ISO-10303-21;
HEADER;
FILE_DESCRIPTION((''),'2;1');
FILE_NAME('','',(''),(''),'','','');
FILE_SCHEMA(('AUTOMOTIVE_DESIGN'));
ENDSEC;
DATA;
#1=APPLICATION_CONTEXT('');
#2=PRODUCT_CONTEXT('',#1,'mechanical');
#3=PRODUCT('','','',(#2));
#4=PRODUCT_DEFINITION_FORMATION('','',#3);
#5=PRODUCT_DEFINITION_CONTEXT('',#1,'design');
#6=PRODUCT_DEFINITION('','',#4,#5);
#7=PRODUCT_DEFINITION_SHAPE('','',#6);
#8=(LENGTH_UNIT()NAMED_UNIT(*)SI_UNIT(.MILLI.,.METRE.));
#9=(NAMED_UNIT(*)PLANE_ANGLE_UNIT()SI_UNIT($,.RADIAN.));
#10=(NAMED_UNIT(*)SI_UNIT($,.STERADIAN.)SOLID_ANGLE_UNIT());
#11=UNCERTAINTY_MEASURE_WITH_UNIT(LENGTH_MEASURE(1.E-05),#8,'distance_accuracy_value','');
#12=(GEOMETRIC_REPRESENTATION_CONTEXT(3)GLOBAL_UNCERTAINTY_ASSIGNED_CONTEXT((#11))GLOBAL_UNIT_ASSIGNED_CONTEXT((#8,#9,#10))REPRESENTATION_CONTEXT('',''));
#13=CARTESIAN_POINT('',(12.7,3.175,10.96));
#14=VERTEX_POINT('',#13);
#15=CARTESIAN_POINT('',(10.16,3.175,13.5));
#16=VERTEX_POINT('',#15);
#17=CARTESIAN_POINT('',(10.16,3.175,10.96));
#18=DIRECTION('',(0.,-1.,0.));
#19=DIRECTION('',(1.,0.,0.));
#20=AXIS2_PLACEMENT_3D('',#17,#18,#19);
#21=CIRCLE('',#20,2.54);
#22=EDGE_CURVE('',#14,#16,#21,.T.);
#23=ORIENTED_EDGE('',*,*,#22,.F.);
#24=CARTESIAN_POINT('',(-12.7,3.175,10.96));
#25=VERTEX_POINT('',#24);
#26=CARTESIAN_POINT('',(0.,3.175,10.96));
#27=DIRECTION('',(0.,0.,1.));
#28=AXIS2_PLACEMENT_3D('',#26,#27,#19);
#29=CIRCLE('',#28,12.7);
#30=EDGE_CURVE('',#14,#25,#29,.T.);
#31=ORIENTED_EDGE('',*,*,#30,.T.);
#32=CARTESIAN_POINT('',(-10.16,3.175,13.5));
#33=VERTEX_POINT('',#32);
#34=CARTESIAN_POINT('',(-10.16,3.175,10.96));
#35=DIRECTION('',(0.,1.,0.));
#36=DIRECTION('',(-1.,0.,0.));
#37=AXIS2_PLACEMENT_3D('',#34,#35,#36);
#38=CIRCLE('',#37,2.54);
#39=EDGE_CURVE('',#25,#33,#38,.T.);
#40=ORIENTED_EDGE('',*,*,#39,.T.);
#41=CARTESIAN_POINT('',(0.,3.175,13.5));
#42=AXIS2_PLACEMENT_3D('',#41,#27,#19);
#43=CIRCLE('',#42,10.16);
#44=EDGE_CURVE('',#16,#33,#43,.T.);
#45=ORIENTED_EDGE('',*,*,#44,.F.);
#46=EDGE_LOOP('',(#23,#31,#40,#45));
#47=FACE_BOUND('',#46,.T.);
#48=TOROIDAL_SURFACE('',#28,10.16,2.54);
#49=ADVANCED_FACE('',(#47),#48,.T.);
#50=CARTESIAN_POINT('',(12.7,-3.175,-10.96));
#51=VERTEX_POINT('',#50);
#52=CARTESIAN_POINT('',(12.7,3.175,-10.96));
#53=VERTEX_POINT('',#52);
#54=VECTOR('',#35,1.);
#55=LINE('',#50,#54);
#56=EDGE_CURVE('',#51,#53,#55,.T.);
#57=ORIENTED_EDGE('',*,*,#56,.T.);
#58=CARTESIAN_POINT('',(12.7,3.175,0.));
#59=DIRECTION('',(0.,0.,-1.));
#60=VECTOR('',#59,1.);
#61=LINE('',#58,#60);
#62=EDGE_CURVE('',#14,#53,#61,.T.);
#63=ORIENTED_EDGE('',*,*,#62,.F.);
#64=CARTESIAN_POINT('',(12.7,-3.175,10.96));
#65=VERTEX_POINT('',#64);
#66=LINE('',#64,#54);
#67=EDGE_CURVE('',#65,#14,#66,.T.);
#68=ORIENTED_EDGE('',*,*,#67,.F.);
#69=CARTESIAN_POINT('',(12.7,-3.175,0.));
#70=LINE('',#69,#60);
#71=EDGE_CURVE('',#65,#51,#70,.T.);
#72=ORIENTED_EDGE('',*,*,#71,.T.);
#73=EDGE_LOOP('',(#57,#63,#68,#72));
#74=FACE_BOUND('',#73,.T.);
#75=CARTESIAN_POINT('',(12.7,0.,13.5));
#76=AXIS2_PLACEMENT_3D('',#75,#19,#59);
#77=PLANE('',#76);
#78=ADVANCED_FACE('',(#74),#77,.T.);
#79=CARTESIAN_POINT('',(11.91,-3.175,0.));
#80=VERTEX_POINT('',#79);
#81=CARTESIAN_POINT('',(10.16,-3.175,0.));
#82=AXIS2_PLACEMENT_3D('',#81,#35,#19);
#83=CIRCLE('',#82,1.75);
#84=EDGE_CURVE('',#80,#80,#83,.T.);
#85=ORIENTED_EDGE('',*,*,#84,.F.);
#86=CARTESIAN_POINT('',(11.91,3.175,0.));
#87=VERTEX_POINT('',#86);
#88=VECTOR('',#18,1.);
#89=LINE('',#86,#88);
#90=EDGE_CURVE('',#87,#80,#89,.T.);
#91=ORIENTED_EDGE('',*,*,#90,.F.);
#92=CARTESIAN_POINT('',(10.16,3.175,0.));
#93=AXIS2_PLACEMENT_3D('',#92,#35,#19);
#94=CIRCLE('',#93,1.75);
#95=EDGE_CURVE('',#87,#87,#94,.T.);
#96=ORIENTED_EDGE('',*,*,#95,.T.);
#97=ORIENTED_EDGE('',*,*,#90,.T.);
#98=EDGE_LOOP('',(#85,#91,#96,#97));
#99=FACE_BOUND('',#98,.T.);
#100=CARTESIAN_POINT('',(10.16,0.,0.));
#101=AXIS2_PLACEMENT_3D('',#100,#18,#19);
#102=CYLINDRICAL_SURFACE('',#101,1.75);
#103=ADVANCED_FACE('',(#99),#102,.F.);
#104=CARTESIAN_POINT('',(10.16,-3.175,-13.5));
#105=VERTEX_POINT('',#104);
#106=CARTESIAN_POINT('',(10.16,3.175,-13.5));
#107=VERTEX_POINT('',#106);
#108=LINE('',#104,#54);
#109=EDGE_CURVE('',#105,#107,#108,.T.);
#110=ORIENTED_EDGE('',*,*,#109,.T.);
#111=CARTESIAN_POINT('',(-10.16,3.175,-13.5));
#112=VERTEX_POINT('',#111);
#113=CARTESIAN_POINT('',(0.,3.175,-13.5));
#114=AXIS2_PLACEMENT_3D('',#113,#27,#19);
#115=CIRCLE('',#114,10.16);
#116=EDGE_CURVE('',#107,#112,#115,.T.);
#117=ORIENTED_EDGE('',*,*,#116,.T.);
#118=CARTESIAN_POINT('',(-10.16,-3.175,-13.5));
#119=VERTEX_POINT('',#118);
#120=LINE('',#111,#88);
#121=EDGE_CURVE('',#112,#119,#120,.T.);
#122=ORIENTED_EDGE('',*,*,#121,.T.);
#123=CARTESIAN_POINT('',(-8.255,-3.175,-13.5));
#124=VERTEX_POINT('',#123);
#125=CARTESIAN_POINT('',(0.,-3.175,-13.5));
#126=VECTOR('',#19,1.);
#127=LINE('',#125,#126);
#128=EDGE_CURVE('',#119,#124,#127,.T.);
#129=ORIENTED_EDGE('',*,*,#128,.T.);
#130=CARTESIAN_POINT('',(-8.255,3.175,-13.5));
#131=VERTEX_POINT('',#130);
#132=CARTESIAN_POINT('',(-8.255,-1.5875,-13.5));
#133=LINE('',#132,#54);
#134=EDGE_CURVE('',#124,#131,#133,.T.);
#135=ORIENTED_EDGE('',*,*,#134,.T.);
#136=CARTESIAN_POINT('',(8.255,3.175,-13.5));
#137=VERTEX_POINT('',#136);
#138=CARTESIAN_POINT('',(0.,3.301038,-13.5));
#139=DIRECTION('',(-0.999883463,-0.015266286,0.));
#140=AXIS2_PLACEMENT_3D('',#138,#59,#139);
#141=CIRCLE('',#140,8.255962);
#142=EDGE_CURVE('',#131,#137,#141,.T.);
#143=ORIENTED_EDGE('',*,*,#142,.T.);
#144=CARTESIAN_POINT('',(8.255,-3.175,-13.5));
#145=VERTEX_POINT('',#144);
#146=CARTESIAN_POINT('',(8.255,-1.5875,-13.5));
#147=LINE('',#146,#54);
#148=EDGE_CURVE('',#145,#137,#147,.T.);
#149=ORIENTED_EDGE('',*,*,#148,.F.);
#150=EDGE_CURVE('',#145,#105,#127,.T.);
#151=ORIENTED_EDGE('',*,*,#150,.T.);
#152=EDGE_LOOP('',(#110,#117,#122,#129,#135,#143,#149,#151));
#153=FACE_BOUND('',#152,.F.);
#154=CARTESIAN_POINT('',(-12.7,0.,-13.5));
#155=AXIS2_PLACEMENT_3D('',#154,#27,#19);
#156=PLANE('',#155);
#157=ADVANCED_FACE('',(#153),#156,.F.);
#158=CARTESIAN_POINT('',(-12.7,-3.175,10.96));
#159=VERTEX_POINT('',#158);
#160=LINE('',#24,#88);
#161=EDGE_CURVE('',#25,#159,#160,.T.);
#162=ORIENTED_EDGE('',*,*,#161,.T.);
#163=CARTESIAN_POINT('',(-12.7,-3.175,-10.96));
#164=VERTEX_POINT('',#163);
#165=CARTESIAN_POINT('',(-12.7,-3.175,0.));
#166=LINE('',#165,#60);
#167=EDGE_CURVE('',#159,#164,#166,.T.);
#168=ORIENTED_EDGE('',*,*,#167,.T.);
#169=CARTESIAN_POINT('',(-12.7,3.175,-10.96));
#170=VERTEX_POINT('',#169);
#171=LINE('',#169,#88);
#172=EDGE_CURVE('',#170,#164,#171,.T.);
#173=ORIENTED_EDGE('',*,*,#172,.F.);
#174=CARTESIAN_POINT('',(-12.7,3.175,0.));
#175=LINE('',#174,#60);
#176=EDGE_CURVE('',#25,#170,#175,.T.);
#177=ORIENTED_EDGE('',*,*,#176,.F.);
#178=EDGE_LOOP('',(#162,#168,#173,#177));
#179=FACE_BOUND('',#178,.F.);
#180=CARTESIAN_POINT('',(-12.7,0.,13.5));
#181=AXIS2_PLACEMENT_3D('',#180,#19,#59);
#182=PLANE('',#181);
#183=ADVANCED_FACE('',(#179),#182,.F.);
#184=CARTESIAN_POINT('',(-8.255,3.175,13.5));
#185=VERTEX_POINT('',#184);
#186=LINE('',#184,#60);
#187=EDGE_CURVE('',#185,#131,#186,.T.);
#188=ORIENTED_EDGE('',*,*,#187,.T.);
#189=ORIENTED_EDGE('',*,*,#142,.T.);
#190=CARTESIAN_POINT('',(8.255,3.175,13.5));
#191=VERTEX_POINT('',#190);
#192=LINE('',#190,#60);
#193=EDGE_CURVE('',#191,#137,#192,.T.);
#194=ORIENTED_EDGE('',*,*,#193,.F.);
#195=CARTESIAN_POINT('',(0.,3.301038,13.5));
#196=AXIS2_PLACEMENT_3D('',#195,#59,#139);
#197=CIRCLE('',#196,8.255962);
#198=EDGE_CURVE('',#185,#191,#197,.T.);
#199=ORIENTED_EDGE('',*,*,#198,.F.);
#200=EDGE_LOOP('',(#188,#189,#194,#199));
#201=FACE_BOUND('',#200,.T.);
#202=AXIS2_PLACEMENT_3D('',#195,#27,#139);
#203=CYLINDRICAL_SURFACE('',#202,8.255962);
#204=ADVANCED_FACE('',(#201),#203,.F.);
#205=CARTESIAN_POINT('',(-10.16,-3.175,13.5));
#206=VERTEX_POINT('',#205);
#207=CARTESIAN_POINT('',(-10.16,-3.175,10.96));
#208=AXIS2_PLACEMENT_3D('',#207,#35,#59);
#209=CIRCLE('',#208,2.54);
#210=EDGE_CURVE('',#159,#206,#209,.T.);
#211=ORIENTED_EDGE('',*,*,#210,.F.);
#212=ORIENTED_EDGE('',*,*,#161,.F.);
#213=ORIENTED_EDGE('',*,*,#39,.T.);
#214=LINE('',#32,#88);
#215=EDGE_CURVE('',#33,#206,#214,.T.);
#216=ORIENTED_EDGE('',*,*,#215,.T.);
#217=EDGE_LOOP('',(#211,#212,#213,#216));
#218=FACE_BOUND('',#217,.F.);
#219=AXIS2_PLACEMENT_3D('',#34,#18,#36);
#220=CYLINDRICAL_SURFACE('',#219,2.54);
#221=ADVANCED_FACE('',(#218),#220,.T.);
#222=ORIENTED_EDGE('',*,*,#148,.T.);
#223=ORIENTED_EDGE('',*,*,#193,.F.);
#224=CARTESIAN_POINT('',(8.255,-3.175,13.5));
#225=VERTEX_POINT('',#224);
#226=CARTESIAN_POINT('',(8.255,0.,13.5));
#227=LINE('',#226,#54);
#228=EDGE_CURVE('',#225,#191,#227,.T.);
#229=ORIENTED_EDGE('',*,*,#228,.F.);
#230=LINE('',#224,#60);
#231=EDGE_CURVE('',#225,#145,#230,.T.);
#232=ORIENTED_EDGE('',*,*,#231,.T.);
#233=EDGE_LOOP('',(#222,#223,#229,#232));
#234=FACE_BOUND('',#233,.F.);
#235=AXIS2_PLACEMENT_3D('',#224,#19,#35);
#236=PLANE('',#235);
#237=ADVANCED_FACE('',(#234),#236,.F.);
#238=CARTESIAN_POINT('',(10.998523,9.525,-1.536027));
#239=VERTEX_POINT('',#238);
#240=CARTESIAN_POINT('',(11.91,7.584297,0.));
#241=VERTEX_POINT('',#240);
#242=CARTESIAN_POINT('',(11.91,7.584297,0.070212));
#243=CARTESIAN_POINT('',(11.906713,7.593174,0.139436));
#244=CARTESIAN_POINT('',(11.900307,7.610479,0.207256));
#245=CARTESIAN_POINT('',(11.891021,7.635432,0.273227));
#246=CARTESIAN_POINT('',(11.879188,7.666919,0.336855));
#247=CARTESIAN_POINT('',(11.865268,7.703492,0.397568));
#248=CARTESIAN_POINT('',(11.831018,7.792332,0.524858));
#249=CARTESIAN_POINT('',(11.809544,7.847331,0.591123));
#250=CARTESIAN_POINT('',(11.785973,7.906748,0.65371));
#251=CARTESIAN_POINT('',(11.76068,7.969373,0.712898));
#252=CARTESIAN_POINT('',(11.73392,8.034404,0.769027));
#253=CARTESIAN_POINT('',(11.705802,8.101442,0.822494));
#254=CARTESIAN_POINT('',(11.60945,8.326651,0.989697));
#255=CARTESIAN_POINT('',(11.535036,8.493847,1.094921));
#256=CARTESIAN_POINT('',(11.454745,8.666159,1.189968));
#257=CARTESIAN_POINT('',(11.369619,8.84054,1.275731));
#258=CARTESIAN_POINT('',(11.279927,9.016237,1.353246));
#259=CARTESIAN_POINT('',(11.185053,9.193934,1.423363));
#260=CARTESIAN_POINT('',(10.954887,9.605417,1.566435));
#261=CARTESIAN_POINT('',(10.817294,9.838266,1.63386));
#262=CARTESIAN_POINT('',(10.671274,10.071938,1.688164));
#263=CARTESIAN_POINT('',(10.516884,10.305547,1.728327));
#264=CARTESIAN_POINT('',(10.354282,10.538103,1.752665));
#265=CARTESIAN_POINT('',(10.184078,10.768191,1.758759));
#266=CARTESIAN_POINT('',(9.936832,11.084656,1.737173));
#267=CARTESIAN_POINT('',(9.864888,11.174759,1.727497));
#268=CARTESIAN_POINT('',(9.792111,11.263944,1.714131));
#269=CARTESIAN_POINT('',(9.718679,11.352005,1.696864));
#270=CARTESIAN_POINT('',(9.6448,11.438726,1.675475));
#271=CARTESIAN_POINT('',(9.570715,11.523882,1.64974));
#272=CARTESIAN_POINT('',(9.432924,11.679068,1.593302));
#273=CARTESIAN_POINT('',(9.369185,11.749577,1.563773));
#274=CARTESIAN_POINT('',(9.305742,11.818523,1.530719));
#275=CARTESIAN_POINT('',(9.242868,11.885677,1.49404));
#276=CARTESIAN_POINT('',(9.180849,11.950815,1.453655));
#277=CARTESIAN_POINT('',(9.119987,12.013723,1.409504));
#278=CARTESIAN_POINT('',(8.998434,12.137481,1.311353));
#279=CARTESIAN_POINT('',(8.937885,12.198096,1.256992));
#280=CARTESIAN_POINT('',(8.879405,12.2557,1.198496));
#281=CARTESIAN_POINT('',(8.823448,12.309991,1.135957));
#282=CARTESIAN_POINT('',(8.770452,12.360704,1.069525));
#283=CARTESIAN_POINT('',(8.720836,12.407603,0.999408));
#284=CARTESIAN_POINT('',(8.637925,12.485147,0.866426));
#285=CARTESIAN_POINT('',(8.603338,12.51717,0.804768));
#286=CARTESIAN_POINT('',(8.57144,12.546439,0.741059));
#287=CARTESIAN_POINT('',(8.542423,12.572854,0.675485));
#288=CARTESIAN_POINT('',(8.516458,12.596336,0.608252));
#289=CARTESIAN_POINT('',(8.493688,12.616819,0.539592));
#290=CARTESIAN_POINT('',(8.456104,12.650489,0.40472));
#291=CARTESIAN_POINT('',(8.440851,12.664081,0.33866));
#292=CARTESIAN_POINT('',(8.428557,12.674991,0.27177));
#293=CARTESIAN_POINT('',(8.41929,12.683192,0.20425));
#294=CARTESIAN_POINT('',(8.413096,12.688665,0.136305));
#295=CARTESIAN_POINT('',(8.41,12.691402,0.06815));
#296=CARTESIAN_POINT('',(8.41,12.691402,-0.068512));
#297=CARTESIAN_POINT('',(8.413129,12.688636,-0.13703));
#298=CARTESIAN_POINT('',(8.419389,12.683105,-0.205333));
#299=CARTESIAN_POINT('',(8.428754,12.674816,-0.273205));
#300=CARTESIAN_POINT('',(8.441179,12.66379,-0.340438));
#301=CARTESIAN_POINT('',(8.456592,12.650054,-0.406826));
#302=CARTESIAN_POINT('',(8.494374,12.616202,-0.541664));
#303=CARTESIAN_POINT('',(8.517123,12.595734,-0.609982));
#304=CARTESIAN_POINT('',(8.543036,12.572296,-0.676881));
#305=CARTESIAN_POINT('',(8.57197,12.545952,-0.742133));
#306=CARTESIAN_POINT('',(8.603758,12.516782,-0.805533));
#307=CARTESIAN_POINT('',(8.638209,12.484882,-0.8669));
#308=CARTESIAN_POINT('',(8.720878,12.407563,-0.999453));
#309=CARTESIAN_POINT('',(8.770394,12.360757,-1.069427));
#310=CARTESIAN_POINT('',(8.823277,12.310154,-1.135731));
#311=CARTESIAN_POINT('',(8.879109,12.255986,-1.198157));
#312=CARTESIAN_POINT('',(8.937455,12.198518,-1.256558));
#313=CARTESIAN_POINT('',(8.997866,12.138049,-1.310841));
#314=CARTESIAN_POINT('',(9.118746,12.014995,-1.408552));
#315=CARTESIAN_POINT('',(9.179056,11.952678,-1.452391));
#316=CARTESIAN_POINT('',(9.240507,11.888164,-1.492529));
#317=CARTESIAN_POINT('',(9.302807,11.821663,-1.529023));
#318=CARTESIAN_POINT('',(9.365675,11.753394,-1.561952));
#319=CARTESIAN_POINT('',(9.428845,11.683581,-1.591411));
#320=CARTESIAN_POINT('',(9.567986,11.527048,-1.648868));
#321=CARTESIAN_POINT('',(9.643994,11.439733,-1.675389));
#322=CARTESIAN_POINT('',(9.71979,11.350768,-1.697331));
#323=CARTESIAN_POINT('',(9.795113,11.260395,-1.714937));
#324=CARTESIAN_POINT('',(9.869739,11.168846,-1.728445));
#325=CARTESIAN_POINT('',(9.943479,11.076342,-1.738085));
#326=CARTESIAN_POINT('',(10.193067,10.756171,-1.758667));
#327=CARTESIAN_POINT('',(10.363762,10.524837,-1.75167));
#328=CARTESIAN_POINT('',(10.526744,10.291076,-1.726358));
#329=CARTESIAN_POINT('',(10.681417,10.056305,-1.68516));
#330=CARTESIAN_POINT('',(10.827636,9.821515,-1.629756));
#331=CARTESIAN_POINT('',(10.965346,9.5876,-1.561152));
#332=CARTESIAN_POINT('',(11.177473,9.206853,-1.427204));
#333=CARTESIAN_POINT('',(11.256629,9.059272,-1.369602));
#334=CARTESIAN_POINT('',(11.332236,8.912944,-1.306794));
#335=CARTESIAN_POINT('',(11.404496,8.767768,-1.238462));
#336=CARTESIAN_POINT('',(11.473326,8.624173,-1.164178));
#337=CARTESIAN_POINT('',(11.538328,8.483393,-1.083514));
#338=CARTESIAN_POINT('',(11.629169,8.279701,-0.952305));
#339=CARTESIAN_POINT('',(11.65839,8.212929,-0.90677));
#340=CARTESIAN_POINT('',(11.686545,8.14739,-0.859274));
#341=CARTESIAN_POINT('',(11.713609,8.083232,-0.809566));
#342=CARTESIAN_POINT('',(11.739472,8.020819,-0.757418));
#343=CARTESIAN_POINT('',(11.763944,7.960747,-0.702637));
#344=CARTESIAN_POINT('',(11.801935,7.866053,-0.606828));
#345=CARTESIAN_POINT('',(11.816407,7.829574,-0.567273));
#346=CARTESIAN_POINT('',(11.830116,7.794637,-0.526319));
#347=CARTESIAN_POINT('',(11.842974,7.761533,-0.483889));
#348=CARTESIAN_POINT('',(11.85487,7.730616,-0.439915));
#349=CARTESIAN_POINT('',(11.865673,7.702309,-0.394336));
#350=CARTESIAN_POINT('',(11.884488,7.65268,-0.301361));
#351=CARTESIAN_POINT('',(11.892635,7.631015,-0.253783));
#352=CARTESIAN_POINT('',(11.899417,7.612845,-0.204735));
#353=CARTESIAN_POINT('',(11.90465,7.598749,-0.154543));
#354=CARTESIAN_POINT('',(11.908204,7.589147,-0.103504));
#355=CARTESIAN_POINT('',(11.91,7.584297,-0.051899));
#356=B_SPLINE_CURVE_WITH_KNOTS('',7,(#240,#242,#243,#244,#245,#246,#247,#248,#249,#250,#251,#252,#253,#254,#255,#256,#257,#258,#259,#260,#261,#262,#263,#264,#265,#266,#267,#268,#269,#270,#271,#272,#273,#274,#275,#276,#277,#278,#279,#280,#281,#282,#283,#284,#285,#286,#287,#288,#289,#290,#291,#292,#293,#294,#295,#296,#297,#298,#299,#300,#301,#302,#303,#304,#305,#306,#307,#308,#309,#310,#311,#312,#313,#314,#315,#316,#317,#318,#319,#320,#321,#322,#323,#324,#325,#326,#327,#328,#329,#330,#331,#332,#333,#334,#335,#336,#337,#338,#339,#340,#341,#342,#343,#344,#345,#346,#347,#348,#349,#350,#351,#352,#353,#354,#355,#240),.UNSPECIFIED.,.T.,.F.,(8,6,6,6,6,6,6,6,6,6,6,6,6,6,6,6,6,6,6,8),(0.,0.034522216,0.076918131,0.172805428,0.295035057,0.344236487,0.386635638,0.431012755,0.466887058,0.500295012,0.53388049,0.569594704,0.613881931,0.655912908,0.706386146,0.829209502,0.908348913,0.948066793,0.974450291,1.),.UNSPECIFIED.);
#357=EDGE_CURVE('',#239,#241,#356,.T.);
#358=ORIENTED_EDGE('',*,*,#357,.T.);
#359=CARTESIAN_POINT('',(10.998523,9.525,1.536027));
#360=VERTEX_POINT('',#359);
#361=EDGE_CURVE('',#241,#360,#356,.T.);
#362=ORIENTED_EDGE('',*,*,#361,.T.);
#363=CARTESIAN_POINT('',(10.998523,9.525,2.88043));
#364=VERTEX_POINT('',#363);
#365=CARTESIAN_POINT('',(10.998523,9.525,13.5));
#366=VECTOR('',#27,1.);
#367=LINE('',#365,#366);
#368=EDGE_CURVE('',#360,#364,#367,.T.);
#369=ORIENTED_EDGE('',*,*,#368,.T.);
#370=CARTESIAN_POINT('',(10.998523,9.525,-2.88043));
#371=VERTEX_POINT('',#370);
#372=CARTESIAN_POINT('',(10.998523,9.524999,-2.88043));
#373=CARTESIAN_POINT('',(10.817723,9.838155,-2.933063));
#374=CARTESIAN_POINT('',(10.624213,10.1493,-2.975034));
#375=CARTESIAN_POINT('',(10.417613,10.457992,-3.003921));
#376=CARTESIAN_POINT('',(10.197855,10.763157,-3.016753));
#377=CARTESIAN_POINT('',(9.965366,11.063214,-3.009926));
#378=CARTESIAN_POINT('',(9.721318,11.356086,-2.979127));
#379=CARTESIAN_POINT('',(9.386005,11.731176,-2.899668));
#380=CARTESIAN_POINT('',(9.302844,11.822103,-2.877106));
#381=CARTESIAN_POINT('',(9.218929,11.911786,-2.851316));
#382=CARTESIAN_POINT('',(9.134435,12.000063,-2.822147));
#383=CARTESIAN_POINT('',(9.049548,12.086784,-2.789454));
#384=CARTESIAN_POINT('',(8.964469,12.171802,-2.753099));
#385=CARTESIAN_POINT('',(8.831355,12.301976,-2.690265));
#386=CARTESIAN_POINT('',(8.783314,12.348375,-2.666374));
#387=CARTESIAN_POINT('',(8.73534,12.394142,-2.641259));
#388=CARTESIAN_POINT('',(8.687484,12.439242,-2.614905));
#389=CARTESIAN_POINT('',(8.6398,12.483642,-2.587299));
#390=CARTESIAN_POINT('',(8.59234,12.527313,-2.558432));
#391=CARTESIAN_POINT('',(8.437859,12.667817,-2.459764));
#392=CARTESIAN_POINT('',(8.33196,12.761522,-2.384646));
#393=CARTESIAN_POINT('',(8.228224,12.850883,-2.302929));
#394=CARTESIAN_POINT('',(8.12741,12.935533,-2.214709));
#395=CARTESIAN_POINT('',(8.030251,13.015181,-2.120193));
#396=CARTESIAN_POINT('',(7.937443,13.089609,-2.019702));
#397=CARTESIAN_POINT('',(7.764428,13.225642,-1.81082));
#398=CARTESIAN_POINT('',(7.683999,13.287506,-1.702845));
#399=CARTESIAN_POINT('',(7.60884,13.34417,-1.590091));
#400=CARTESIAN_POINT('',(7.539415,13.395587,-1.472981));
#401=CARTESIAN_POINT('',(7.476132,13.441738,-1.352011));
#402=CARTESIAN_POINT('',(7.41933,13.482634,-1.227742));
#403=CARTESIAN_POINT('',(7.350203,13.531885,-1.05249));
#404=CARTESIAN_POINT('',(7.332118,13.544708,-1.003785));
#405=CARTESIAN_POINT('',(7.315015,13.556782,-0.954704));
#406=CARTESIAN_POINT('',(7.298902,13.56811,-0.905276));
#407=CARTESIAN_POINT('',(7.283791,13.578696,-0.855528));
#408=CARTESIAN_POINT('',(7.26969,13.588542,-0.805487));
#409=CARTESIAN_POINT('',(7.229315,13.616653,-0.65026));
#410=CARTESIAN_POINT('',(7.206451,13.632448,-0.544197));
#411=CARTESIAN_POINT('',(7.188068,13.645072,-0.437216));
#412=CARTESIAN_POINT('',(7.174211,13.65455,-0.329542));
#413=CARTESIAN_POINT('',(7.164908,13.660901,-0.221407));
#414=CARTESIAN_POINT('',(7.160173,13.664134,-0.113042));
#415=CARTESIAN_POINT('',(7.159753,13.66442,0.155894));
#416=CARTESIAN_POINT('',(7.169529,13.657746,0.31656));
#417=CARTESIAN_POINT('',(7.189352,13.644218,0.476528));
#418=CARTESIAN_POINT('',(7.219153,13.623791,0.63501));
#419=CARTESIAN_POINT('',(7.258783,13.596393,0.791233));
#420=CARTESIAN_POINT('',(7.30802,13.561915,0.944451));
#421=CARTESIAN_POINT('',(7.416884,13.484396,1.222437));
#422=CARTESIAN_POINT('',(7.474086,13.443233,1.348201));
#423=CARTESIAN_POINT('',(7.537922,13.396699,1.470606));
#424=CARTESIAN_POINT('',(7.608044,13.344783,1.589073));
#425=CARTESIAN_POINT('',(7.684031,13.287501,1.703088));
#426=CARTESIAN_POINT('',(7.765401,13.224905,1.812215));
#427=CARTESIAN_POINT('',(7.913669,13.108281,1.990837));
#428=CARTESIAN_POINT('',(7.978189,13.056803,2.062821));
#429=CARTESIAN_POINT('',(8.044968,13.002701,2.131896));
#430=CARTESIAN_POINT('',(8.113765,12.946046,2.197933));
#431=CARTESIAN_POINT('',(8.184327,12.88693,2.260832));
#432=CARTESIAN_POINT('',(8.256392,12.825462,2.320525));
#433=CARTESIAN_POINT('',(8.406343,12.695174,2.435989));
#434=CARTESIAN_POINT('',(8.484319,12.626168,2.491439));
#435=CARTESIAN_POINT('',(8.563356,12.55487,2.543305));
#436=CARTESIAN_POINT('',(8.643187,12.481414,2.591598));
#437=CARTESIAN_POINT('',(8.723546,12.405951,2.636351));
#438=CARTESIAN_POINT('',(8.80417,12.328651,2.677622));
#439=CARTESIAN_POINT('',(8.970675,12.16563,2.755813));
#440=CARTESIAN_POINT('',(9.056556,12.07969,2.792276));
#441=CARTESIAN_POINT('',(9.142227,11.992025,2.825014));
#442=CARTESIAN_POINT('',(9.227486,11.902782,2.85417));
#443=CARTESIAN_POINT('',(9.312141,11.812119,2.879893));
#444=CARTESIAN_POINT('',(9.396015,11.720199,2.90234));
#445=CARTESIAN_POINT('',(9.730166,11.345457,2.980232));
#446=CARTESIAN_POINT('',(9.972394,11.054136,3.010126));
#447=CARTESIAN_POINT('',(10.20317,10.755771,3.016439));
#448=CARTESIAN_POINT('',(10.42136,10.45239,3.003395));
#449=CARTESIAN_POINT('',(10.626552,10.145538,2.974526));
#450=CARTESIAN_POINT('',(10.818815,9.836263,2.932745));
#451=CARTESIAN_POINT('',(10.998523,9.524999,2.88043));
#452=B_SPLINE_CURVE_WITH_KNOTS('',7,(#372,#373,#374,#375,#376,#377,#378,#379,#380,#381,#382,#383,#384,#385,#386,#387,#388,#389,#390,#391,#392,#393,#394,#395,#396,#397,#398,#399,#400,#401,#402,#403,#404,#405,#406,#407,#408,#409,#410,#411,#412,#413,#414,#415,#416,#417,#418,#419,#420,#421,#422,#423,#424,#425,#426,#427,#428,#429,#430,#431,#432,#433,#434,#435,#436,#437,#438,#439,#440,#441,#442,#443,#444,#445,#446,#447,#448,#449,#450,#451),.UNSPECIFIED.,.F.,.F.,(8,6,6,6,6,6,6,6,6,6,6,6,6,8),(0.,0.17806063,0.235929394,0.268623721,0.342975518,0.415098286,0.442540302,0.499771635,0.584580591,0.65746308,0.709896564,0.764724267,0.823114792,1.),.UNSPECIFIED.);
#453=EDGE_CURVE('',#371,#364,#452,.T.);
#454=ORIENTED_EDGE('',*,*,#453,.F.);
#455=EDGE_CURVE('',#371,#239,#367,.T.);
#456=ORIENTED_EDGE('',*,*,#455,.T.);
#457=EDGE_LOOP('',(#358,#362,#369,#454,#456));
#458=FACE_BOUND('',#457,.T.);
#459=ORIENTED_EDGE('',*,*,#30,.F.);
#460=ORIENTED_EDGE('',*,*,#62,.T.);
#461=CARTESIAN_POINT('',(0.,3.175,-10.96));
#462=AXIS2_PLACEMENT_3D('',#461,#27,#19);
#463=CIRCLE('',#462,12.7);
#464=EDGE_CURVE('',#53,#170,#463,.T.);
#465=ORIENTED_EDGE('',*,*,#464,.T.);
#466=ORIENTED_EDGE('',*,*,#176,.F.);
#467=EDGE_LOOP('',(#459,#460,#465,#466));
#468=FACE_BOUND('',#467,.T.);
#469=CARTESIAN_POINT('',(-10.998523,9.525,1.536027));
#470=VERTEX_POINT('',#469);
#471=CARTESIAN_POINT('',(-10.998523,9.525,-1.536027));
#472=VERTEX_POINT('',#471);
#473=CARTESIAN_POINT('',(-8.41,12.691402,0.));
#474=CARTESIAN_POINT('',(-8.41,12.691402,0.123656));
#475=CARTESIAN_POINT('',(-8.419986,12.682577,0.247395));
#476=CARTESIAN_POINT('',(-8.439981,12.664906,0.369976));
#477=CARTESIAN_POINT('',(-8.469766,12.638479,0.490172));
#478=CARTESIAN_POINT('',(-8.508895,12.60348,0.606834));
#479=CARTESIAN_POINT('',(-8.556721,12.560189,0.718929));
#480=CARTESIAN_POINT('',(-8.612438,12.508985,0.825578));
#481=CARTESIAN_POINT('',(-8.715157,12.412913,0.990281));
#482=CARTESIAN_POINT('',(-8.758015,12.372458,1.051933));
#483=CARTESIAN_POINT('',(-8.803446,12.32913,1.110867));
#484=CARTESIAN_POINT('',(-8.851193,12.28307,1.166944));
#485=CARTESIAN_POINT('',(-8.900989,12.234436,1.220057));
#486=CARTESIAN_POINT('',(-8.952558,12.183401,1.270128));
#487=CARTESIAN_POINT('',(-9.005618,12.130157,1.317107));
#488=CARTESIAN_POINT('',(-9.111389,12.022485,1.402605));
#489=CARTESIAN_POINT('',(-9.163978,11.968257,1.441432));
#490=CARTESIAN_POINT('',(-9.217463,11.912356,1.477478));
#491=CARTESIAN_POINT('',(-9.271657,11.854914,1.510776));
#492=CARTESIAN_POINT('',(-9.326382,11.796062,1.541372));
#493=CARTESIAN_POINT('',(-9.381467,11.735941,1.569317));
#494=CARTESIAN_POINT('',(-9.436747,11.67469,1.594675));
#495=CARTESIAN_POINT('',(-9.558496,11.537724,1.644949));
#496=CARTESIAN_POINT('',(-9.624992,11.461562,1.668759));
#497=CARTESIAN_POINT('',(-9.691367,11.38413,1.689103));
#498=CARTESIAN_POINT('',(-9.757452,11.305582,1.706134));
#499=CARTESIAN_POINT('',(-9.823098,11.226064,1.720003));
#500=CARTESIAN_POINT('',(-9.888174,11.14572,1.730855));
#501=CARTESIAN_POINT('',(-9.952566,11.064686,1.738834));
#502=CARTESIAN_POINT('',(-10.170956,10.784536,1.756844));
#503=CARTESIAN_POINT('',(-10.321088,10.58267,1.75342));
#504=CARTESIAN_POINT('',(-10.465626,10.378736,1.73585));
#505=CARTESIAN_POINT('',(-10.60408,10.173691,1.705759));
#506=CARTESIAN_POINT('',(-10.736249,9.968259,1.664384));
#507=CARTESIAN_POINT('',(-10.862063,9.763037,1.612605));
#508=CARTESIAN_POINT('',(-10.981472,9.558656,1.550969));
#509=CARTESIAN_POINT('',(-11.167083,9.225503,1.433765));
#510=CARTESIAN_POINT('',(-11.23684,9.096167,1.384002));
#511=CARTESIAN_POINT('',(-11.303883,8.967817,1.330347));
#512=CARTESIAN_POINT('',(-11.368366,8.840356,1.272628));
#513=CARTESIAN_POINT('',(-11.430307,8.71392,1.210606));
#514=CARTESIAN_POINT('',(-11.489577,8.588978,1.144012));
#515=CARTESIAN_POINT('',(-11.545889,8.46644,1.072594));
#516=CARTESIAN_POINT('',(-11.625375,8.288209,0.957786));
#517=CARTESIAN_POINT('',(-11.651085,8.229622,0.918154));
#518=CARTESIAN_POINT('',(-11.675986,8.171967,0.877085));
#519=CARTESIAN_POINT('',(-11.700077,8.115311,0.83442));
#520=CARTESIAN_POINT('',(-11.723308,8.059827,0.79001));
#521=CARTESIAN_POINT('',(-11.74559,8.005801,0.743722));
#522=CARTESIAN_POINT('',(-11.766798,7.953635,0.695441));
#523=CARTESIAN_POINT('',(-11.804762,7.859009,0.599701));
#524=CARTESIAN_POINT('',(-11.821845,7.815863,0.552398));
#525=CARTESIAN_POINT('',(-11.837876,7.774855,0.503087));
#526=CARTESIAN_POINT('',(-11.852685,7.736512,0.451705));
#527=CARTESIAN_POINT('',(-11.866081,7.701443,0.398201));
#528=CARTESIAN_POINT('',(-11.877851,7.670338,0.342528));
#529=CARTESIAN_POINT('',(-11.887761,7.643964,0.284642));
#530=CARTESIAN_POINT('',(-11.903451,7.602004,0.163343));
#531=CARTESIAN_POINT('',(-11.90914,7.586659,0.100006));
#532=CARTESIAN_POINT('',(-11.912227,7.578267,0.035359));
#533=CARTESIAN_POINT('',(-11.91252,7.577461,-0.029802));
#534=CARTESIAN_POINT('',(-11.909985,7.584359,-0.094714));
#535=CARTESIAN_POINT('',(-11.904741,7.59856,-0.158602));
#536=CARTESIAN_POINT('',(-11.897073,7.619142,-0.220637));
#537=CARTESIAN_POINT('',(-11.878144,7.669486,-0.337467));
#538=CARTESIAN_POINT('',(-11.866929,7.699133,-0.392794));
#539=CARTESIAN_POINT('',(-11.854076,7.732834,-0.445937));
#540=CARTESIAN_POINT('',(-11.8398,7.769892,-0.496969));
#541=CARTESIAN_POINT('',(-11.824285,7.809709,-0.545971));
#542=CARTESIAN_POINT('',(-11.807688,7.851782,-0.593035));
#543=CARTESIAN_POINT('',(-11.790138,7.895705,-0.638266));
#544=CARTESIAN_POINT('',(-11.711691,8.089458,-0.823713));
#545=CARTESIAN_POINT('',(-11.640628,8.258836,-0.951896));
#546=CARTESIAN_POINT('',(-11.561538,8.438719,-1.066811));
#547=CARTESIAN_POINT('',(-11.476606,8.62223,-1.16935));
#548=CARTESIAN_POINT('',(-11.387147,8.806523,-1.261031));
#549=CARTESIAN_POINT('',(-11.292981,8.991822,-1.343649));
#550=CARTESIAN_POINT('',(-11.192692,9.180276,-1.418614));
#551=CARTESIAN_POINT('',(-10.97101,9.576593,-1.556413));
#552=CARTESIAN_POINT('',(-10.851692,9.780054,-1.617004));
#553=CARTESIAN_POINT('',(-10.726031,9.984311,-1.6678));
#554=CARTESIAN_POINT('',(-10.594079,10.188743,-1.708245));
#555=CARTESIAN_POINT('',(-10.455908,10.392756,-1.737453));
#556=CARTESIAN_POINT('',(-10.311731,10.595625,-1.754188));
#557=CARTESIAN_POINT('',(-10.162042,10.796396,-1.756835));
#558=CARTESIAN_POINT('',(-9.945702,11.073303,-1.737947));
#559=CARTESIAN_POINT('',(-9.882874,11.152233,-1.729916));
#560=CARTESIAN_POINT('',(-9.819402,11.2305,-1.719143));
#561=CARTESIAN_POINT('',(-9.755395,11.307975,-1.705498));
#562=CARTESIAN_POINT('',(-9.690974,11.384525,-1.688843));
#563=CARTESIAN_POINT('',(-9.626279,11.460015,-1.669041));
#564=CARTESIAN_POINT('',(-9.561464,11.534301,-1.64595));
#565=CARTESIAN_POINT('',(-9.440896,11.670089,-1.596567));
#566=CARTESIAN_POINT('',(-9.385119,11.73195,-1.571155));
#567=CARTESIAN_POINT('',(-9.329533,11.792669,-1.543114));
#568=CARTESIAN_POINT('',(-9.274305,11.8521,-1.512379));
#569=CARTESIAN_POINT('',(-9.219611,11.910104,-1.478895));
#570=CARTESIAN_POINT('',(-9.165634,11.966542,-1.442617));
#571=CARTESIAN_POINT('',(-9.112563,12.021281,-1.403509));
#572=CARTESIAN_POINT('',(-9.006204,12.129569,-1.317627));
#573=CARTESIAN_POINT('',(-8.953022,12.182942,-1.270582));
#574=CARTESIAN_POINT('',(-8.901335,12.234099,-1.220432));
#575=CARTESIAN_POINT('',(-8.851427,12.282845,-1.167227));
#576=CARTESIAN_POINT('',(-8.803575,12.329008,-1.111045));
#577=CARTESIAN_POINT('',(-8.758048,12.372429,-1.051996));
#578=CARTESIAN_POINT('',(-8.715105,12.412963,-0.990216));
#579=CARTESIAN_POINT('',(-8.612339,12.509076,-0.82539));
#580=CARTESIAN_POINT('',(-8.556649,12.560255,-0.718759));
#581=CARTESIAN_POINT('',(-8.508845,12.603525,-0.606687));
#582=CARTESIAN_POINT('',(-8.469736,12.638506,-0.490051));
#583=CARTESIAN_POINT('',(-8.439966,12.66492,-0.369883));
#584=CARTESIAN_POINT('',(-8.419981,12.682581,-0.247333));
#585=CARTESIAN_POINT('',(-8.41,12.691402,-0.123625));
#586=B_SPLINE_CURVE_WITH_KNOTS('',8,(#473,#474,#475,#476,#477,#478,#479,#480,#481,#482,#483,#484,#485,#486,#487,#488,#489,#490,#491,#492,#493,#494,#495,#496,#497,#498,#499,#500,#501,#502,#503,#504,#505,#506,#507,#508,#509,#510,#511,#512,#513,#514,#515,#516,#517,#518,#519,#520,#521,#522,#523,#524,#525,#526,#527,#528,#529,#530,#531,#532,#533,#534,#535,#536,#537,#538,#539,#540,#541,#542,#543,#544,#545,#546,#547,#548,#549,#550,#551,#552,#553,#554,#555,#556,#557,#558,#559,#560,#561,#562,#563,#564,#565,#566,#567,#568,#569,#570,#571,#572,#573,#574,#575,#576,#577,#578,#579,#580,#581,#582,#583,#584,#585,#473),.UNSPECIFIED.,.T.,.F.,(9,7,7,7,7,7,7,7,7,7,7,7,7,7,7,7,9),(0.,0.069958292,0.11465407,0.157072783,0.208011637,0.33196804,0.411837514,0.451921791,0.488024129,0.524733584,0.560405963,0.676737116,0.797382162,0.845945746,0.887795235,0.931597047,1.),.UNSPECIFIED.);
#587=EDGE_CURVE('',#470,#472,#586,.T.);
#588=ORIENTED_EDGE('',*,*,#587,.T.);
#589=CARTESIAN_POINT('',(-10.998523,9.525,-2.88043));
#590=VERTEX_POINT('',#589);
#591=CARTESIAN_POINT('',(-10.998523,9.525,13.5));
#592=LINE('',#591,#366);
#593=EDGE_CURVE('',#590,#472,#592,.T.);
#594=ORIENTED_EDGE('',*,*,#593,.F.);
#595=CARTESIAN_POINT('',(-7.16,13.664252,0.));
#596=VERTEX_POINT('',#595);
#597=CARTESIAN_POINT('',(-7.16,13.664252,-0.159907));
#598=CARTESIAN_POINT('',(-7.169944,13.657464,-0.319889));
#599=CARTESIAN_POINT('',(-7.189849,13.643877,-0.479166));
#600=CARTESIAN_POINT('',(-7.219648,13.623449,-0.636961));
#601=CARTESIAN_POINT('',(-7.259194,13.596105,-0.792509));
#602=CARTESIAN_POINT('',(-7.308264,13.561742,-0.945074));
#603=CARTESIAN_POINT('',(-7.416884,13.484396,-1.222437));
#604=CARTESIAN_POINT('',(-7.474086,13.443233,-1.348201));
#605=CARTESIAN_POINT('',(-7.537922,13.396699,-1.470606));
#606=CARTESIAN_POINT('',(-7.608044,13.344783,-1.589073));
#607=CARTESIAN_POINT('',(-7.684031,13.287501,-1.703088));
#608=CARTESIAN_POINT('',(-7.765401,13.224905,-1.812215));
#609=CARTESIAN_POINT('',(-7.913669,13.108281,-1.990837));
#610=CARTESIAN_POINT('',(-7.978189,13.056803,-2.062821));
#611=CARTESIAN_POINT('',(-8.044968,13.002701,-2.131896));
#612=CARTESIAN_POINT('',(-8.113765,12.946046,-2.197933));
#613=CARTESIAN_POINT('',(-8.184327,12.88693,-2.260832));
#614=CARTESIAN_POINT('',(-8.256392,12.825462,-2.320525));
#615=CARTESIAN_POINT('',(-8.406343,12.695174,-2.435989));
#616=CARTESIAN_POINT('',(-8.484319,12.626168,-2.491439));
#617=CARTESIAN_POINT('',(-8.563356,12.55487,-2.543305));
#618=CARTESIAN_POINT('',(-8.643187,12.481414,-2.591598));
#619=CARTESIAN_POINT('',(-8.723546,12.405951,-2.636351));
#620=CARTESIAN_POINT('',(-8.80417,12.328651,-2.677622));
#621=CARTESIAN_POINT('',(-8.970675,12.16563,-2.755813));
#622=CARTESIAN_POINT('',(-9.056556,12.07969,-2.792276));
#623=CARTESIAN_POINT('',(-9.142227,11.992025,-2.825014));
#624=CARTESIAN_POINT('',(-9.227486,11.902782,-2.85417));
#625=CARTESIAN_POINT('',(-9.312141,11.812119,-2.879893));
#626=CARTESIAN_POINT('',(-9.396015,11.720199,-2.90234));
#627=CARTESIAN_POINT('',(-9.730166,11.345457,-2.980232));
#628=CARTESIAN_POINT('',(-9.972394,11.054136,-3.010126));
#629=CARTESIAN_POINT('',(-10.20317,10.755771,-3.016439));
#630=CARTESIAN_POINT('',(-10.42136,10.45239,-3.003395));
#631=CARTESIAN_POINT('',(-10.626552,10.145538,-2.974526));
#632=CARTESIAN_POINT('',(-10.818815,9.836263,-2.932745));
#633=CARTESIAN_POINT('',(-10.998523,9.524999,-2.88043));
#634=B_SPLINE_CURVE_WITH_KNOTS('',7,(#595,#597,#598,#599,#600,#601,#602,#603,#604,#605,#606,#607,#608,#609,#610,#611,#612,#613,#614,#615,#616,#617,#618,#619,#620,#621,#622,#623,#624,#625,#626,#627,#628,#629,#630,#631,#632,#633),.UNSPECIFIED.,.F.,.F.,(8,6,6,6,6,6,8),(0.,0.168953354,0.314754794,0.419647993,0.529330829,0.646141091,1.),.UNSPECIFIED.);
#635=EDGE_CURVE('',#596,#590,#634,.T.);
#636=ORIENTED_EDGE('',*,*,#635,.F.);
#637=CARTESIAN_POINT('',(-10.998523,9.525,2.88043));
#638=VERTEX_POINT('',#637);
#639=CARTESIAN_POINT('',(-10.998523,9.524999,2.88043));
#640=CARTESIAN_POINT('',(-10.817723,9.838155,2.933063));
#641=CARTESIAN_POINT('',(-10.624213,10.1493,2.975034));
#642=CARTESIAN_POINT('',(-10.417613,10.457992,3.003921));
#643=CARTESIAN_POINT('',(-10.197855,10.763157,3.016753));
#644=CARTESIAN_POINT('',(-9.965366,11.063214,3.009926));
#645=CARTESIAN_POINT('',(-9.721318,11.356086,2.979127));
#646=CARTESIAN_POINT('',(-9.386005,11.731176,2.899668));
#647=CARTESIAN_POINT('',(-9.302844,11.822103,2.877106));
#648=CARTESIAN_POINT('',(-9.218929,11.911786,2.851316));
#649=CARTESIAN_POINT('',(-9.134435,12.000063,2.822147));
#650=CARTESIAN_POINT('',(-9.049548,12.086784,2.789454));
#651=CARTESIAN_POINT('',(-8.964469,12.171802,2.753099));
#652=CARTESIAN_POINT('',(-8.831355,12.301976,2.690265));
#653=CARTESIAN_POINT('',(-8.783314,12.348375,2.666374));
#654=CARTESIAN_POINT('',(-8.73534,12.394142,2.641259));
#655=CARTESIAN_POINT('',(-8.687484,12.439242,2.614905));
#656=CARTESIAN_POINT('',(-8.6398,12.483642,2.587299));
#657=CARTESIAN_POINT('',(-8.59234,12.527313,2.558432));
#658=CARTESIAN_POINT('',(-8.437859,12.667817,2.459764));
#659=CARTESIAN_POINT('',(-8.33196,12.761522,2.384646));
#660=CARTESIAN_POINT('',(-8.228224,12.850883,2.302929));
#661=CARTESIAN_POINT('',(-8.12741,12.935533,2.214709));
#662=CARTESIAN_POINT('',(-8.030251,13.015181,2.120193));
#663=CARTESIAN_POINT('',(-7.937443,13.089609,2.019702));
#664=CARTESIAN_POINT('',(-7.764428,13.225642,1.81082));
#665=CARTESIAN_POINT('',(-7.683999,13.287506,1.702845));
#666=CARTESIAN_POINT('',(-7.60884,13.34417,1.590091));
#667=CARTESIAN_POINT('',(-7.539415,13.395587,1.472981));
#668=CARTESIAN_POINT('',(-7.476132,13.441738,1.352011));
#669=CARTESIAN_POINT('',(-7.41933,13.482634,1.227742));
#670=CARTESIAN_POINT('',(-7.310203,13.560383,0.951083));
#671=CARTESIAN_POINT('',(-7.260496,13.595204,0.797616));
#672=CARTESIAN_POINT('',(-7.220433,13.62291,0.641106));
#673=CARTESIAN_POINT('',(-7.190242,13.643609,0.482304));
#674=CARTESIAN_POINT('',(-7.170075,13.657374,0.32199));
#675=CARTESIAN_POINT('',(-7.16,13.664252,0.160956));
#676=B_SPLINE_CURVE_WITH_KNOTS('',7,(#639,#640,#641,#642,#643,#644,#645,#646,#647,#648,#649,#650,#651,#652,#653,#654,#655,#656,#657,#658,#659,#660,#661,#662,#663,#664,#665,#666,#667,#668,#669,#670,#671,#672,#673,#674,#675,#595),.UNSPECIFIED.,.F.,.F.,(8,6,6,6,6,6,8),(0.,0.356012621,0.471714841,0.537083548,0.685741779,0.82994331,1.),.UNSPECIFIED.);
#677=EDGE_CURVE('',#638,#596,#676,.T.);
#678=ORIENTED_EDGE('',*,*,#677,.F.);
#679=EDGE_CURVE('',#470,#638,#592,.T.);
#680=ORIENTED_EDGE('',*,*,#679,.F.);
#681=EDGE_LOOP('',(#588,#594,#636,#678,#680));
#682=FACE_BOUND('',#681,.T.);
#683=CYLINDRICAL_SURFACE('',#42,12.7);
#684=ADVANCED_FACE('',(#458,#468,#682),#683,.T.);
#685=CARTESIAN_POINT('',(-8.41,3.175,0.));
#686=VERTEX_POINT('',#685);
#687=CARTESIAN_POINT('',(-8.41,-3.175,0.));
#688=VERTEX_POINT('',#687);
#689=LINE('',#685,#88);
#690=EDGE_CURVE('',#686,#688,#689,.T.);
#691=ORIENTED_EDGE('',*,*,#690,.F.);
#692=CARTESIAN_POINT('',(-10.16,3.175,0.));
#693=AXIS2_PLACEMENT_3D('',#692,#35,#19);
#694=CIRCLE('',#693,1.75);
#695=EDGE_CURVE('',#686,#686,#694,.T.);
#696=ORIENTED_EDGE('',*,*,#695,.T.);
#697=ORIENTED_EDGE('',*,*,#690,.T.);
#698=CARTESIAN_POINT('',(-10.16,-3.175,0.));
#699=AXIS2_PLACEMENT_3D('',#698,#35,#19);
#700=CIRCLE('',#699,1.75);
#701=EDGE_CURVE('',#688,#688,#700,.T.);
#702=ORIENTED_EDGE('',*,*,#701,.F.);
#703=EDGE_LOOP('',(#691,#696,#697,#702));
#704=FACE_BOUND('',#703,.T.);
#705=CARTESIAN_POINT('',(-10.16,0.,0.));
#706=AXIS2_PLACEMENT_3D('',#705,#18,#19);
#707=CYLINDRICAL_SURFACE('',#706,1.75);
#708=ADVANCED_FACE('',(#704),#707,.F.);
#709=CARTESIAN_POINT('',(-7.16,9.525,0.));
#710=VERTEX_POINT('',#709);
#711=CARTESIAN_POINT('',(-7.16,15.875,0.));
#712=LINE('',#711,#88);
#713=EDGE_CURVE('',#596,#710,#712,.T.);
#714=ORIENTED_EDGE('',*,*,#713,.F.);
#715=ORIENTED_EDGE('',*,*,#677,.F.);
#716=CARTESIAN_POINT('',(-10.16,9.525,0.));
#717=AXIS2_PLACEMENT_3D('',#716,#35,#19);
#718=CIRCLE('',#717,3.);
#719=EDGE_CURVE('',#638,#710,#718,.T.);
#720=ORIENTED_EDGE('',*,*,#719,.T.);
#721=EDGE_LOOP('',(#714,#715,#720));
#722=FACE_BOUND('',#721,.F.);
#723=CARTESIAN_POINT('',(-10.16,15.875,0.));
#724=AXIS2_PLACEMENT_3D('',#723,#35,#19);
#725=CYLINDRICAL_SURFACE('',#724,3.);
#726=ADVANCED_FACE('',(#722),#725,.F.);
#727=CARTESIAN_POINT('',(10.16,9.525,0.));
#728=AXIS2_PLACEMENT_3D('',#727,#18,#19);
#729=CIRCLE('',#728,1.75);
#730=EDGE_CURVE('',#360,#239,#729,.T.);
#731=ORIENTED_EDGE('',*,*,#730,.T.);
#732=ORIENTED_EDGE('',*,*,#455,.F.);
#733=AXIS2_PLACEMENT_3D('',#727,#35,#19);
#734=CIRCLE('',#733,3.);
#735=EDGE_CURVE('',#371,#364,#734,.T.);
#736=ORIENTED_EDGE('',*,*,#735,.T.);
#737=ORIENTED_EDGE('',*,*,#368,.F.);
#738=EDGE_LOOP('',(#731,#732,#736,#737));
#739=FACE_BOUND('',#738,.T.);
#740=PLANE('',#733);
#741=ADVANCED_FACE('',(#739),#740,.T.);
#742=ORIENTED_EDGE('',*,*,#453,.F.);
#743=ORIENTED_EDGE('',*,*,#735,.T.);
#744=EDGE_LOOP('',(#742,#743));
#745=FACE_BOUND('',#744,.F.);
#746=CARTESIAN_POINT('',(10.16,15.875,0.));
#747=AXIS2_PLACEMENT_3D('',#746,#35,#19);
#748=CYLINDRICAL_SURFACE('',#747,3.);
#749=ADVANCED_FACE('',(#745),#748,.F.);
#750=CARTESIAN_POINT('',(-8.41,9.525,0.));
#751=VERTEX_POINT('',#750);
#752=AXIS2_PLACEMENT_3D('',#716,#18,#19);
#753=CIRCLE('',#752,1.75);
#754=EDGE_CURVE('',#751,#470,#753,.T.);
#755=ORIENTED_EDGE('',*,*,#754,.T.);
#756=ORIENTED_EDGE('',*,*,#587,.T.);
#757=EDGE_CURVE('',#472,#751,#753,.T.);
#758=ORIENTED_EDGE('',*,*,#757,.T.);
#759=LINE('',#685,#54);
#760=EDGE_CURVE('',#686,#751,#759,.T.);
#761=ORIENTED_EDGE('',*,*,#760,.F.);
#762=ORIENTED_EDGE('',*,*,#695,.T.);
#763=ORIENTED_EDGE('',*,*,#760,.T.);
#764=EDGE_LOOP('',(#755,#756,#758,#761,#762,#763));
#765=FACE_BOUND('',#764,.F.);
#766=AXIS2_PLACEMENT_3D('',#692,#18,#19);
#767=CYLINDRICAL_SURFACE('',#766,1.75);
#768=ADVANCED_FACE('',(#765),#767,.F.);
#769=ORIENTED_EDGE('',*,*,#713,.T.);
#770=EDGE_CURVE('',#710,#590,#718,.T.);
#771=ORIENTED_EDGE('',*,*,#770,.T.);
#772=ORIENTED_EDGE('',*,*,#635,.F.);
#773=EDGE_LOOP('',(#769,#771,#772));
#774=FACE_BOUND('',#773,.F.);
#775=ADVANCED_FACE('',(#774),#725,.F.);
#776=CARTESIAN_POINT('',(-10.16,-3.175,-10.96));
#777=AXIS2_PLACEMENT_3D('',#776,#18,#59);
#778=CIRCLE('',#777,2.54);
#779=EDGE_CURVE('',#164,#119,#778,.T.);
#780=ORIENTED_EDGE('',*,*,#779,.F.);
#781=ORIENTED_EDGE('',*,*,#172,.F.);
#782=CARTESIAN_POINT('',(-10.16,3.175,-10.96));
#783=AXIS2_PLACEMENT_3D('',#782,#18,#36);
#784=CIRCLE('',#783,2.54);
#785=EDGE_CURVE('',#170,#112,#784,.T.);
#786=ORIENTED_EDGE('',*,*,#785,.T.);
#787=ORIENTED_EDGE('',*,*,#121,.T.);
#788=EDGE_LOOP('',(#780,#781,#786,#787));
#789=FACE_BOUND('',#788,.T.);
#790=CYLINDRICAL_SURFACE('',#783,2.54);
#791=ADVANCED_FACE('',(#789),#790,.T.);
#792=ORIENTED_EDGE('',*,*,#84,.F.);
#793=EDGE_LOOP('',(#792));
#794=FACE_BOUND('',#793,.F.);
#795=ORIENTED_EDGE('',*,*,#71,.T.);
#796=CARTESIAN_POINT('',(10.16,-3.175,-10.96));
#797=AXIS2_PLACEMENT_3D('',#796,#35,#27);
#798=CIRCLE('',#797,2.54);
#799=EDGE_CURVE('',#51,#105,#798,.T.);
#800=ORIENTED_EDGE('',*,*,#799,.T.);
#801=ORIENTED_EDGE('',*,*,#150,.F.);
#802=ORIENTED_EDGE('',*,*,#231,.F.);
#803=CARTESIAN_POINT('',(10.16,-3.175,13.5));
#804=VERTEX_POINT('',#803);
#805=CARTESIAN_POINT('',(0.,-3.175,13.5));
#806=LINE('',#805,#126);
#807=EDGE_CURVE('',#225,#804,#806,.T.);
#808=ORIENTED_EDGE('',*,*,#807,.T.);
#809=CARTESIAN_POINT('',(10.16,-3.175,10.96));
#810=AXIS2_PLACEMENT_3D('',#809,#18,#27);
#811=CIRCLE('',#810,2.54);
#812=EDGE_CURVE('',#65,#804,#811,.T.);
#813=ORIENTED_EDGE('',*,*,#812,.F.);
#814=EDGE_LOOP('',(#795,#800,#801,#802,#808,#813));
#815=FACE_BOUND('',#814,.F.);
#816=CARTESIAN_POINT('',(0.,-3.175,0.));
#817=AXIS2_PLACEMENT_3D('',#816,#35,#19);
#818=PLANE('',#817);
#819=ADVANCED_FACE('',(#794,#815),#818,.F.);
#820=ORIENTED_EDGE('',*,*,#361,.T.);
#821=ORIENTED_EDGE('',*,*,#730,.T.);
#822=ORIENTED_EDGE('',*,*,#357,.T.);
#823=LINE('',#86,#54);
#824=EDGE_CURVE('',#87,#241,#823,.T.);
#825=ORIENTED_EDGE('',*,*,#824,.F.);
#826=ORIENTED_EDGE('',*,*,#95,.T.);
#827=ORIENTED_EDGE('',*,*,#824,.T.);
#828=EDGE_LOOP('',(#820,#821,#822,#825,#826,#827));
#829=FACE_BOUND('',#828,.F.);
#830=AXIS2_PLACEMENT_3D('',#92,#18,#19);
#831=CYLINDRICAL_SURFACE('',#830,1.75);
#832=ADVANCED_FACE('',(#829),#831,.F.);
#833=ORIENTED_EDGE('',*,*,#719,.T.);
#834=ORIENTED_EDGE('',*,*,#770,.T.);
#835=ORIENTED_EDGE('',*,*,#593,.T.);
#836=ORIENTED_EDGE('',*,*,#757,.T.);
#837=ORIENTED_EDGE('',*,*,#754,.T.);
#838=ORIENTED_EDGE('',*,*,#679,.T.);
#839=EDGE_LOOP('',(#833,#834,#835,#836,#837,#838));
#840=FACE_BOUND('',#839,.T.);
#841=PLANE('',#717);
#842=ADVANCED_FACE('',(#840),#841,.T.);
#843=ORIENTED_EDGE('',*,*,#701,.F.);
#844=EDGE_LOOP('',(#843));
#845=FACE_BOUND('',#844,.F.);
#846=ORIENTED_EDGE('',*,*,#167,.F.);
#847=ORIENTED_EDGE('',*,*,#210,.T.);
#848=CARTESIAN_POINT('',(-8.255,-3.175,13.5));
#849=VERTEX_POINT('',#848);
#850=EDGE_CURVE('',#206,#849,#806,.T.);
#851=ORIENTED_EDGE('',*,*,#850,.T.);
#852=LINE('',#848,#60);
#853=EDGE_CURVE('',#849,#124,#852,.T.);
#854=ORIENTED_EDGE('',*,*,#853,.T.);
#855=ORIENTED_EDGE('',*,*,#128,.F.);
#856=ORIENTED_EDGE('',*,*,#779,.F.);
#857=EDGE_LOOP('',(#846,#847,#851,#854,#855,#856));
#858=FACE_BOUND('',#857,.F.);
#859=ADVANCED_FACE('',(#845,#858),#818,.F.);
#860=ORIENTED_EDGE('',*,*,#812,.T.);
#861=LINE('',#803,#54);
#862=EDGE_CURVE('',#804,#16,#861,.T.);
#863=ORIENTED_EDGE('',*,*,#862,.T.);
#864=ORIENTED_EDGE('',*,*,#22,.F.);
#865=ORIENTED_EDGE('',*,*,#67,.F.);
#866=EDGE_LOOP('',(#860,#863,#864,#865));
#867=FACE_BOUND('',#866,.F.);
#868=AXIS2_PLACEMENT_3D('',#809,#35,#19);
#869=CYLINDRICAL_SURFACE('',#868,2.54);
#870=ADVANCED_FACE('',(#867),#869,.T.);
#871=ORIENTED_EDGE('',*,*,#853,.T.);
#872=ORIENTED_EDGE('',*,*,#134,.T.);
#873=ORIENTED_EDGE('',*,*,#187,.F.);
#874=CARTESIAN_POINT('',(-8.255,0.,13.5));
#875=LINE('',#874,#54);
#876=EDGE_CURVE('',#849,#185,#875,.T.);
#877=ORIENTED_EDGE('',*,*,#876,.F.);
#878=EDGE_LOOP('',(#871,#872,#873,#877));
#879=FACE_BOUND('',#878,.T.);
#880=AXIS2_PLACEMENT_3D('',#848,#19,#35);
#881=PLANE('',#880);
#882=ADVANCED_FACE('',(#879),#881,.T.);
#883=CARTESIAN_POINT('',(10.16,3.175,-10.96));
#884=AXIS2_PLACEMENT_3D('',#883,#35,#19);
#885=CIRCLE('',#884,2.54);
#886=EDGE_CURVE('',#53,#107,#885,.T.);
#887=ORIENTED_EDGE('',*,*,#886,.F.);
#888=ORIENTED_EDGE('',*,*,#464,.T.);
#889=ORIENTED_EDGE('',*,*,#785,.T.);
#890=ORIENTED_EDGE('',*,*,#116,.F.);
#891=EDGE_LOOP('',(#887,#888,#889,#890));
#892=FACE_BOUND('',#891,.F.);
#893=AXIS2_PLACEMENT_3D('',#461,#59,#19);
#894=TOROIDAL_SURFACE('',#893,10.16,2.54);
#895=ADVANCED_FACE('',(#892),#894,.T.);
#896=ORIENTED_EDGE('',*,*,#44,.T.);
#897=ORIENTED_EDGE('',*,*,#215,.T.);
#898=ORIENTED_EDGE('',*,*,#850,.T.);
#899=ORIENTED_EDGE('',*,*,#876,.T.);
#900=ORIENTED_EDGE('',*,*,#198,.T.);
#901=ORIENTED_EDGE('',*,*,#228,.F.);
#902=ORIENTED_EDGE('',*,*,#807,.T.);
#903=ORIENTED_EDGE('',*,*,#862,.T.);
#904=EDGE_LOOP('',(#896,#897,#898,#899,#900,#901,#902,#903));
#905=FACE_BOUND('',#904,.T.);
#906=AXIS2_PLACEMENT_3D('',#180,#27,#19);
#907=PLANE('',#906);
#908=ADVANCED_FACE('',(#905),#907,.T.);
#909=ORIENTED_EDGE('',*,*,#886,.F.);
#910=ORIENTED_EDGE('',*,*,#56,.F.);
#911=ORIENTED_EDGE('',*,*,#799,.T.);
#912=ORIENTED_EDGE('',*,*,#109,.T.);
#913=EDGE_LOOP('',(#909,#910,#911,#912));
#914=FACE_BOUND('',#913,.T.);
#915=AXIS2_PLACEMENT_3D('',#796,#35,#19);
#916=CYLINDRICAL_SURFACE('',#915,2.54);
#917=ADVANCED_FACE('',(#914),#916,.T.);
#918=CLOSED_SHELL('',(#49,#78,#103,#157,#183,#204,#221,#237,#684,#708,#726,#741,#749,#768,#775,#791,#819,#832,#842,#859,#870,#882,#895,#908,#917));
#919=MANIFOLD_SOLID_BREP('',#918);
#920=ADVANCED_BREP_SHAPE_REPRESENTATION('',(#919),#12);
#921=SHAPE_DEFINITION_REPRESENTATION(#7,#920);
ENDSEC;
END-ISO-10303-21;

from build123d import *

# Parameters (mm, degrees)
SKETCH1_W           = 25.4
SKETCH1_H           = 27
SKETCH1_R           = 1.75
BOSS_EXTRUDE1_DEPTH = 3.175
SKETCH2_W           = 16.51
SKETCH2_H           = 6.35
CUT_EXTRUDE1_DEPTH  = 28
BOSS_EXTRUDE2_DEPTH = 27
SKETCH4_R           = 1.75
CUT_EXTRUDE2_DEPTH  = 13.7
SKETCH5_R           = 3
CUT_EXTRUDE3_DEPTH  = 6.35
FILLET1_R           = 2.54


with BuildPart() as part:
    # Sketch1 → Boss-Extrude1 (new body, symmetric)
    with BuildSketch(Plane(origin=(0, 0, 0), x_dir=(1, 0, 0), z_dir=(0, 1, 0))):
        Rectangle(SKETCH1_W, SKETCH1_H)
        with Locations((-10.16, 0)):
            Circle(SKETCH1_R, mode=Mode.SUBTRACT)
        with Locations((10.16, 0)):
            Circle(SKETCH1_R, mode=Mode.SUBTRACT)
    extrude(amount=BOSS_EXTRUDE1_DEPTH, both=True)

    # Sketch2 → Cut-Extrude1 (cut, through all)
    with BuildSketch(Plane.XY.offset(13.5)):
        Rectangle(SKETCH2_W, SKETCH2_H)
    extrude(amount=-CUT_EXTRUDE1_DEPTH, mode=Mode.SUBTRACT)

    # Sketch3 → Boss-Extrude2 (add, through all)
    with BuildSketch(Plane.XY.offset(13.5)):
        with BuildLine():
            Line((-12.7, 3.175), (-8.255, 3.175))
            ThreePointArc((-8.255, 3.175), (0, 11.557), (8.255, 3.175))
            Line((8.255, 3.175), (12.7, 3.175))
            ThreePointArc((12.7, 3.175), (0, 15.875), (-12.7, 3.175))
        make_face()
    extrude(amount=-BOSS_EXTRUDE2_DEPTH)

    # Sketch4 → Cut-Extrude2 (cut, through all)
    with BuildSketch(Plane.XZ.offset(-3.175)):
        with Locations((-10.16, 0)):
            Circle(SKETCH4_R)
        with Locations((10.16, 0)):
            Circle(SKETCH4_R)
    extrude(amount=-CUT_EXTRUDE2_DEPTH, mode=Mode.SUBTRACT)

    # Sketch5 → Cut-Extrude3 (cut)
    with BuildSketch(Plane(origin=(0, 15.875, 0), x_dir=(1, 0, 0), z_dir=(0, 1, 0))):
        with Locations((-10.16, 0)):
            Circle(SKETCH5_R)
        with Locations((10.16, 0)):
            Circle(SKETCH5_R)
    extrude(amount=-CUT_EXTRUDE3_DEPTH, mode=Mode.SUBTRACT)

    # Fillet1
    fillet1_edges = [part.edges().sort_by_distance(p)[0] for p in [
        (0, 15.875, -13.5),
        (0, 15.875, 13.5),
        (12.7, 0, -13.5),
        (12.7, 0, 13.5),
        (-12.7, 0, -13.5),
        (-12.7, 0, 13.5),
    ]]
    fillet(fillet1_edges, radius=FILLET1_R)


solid = part.part
